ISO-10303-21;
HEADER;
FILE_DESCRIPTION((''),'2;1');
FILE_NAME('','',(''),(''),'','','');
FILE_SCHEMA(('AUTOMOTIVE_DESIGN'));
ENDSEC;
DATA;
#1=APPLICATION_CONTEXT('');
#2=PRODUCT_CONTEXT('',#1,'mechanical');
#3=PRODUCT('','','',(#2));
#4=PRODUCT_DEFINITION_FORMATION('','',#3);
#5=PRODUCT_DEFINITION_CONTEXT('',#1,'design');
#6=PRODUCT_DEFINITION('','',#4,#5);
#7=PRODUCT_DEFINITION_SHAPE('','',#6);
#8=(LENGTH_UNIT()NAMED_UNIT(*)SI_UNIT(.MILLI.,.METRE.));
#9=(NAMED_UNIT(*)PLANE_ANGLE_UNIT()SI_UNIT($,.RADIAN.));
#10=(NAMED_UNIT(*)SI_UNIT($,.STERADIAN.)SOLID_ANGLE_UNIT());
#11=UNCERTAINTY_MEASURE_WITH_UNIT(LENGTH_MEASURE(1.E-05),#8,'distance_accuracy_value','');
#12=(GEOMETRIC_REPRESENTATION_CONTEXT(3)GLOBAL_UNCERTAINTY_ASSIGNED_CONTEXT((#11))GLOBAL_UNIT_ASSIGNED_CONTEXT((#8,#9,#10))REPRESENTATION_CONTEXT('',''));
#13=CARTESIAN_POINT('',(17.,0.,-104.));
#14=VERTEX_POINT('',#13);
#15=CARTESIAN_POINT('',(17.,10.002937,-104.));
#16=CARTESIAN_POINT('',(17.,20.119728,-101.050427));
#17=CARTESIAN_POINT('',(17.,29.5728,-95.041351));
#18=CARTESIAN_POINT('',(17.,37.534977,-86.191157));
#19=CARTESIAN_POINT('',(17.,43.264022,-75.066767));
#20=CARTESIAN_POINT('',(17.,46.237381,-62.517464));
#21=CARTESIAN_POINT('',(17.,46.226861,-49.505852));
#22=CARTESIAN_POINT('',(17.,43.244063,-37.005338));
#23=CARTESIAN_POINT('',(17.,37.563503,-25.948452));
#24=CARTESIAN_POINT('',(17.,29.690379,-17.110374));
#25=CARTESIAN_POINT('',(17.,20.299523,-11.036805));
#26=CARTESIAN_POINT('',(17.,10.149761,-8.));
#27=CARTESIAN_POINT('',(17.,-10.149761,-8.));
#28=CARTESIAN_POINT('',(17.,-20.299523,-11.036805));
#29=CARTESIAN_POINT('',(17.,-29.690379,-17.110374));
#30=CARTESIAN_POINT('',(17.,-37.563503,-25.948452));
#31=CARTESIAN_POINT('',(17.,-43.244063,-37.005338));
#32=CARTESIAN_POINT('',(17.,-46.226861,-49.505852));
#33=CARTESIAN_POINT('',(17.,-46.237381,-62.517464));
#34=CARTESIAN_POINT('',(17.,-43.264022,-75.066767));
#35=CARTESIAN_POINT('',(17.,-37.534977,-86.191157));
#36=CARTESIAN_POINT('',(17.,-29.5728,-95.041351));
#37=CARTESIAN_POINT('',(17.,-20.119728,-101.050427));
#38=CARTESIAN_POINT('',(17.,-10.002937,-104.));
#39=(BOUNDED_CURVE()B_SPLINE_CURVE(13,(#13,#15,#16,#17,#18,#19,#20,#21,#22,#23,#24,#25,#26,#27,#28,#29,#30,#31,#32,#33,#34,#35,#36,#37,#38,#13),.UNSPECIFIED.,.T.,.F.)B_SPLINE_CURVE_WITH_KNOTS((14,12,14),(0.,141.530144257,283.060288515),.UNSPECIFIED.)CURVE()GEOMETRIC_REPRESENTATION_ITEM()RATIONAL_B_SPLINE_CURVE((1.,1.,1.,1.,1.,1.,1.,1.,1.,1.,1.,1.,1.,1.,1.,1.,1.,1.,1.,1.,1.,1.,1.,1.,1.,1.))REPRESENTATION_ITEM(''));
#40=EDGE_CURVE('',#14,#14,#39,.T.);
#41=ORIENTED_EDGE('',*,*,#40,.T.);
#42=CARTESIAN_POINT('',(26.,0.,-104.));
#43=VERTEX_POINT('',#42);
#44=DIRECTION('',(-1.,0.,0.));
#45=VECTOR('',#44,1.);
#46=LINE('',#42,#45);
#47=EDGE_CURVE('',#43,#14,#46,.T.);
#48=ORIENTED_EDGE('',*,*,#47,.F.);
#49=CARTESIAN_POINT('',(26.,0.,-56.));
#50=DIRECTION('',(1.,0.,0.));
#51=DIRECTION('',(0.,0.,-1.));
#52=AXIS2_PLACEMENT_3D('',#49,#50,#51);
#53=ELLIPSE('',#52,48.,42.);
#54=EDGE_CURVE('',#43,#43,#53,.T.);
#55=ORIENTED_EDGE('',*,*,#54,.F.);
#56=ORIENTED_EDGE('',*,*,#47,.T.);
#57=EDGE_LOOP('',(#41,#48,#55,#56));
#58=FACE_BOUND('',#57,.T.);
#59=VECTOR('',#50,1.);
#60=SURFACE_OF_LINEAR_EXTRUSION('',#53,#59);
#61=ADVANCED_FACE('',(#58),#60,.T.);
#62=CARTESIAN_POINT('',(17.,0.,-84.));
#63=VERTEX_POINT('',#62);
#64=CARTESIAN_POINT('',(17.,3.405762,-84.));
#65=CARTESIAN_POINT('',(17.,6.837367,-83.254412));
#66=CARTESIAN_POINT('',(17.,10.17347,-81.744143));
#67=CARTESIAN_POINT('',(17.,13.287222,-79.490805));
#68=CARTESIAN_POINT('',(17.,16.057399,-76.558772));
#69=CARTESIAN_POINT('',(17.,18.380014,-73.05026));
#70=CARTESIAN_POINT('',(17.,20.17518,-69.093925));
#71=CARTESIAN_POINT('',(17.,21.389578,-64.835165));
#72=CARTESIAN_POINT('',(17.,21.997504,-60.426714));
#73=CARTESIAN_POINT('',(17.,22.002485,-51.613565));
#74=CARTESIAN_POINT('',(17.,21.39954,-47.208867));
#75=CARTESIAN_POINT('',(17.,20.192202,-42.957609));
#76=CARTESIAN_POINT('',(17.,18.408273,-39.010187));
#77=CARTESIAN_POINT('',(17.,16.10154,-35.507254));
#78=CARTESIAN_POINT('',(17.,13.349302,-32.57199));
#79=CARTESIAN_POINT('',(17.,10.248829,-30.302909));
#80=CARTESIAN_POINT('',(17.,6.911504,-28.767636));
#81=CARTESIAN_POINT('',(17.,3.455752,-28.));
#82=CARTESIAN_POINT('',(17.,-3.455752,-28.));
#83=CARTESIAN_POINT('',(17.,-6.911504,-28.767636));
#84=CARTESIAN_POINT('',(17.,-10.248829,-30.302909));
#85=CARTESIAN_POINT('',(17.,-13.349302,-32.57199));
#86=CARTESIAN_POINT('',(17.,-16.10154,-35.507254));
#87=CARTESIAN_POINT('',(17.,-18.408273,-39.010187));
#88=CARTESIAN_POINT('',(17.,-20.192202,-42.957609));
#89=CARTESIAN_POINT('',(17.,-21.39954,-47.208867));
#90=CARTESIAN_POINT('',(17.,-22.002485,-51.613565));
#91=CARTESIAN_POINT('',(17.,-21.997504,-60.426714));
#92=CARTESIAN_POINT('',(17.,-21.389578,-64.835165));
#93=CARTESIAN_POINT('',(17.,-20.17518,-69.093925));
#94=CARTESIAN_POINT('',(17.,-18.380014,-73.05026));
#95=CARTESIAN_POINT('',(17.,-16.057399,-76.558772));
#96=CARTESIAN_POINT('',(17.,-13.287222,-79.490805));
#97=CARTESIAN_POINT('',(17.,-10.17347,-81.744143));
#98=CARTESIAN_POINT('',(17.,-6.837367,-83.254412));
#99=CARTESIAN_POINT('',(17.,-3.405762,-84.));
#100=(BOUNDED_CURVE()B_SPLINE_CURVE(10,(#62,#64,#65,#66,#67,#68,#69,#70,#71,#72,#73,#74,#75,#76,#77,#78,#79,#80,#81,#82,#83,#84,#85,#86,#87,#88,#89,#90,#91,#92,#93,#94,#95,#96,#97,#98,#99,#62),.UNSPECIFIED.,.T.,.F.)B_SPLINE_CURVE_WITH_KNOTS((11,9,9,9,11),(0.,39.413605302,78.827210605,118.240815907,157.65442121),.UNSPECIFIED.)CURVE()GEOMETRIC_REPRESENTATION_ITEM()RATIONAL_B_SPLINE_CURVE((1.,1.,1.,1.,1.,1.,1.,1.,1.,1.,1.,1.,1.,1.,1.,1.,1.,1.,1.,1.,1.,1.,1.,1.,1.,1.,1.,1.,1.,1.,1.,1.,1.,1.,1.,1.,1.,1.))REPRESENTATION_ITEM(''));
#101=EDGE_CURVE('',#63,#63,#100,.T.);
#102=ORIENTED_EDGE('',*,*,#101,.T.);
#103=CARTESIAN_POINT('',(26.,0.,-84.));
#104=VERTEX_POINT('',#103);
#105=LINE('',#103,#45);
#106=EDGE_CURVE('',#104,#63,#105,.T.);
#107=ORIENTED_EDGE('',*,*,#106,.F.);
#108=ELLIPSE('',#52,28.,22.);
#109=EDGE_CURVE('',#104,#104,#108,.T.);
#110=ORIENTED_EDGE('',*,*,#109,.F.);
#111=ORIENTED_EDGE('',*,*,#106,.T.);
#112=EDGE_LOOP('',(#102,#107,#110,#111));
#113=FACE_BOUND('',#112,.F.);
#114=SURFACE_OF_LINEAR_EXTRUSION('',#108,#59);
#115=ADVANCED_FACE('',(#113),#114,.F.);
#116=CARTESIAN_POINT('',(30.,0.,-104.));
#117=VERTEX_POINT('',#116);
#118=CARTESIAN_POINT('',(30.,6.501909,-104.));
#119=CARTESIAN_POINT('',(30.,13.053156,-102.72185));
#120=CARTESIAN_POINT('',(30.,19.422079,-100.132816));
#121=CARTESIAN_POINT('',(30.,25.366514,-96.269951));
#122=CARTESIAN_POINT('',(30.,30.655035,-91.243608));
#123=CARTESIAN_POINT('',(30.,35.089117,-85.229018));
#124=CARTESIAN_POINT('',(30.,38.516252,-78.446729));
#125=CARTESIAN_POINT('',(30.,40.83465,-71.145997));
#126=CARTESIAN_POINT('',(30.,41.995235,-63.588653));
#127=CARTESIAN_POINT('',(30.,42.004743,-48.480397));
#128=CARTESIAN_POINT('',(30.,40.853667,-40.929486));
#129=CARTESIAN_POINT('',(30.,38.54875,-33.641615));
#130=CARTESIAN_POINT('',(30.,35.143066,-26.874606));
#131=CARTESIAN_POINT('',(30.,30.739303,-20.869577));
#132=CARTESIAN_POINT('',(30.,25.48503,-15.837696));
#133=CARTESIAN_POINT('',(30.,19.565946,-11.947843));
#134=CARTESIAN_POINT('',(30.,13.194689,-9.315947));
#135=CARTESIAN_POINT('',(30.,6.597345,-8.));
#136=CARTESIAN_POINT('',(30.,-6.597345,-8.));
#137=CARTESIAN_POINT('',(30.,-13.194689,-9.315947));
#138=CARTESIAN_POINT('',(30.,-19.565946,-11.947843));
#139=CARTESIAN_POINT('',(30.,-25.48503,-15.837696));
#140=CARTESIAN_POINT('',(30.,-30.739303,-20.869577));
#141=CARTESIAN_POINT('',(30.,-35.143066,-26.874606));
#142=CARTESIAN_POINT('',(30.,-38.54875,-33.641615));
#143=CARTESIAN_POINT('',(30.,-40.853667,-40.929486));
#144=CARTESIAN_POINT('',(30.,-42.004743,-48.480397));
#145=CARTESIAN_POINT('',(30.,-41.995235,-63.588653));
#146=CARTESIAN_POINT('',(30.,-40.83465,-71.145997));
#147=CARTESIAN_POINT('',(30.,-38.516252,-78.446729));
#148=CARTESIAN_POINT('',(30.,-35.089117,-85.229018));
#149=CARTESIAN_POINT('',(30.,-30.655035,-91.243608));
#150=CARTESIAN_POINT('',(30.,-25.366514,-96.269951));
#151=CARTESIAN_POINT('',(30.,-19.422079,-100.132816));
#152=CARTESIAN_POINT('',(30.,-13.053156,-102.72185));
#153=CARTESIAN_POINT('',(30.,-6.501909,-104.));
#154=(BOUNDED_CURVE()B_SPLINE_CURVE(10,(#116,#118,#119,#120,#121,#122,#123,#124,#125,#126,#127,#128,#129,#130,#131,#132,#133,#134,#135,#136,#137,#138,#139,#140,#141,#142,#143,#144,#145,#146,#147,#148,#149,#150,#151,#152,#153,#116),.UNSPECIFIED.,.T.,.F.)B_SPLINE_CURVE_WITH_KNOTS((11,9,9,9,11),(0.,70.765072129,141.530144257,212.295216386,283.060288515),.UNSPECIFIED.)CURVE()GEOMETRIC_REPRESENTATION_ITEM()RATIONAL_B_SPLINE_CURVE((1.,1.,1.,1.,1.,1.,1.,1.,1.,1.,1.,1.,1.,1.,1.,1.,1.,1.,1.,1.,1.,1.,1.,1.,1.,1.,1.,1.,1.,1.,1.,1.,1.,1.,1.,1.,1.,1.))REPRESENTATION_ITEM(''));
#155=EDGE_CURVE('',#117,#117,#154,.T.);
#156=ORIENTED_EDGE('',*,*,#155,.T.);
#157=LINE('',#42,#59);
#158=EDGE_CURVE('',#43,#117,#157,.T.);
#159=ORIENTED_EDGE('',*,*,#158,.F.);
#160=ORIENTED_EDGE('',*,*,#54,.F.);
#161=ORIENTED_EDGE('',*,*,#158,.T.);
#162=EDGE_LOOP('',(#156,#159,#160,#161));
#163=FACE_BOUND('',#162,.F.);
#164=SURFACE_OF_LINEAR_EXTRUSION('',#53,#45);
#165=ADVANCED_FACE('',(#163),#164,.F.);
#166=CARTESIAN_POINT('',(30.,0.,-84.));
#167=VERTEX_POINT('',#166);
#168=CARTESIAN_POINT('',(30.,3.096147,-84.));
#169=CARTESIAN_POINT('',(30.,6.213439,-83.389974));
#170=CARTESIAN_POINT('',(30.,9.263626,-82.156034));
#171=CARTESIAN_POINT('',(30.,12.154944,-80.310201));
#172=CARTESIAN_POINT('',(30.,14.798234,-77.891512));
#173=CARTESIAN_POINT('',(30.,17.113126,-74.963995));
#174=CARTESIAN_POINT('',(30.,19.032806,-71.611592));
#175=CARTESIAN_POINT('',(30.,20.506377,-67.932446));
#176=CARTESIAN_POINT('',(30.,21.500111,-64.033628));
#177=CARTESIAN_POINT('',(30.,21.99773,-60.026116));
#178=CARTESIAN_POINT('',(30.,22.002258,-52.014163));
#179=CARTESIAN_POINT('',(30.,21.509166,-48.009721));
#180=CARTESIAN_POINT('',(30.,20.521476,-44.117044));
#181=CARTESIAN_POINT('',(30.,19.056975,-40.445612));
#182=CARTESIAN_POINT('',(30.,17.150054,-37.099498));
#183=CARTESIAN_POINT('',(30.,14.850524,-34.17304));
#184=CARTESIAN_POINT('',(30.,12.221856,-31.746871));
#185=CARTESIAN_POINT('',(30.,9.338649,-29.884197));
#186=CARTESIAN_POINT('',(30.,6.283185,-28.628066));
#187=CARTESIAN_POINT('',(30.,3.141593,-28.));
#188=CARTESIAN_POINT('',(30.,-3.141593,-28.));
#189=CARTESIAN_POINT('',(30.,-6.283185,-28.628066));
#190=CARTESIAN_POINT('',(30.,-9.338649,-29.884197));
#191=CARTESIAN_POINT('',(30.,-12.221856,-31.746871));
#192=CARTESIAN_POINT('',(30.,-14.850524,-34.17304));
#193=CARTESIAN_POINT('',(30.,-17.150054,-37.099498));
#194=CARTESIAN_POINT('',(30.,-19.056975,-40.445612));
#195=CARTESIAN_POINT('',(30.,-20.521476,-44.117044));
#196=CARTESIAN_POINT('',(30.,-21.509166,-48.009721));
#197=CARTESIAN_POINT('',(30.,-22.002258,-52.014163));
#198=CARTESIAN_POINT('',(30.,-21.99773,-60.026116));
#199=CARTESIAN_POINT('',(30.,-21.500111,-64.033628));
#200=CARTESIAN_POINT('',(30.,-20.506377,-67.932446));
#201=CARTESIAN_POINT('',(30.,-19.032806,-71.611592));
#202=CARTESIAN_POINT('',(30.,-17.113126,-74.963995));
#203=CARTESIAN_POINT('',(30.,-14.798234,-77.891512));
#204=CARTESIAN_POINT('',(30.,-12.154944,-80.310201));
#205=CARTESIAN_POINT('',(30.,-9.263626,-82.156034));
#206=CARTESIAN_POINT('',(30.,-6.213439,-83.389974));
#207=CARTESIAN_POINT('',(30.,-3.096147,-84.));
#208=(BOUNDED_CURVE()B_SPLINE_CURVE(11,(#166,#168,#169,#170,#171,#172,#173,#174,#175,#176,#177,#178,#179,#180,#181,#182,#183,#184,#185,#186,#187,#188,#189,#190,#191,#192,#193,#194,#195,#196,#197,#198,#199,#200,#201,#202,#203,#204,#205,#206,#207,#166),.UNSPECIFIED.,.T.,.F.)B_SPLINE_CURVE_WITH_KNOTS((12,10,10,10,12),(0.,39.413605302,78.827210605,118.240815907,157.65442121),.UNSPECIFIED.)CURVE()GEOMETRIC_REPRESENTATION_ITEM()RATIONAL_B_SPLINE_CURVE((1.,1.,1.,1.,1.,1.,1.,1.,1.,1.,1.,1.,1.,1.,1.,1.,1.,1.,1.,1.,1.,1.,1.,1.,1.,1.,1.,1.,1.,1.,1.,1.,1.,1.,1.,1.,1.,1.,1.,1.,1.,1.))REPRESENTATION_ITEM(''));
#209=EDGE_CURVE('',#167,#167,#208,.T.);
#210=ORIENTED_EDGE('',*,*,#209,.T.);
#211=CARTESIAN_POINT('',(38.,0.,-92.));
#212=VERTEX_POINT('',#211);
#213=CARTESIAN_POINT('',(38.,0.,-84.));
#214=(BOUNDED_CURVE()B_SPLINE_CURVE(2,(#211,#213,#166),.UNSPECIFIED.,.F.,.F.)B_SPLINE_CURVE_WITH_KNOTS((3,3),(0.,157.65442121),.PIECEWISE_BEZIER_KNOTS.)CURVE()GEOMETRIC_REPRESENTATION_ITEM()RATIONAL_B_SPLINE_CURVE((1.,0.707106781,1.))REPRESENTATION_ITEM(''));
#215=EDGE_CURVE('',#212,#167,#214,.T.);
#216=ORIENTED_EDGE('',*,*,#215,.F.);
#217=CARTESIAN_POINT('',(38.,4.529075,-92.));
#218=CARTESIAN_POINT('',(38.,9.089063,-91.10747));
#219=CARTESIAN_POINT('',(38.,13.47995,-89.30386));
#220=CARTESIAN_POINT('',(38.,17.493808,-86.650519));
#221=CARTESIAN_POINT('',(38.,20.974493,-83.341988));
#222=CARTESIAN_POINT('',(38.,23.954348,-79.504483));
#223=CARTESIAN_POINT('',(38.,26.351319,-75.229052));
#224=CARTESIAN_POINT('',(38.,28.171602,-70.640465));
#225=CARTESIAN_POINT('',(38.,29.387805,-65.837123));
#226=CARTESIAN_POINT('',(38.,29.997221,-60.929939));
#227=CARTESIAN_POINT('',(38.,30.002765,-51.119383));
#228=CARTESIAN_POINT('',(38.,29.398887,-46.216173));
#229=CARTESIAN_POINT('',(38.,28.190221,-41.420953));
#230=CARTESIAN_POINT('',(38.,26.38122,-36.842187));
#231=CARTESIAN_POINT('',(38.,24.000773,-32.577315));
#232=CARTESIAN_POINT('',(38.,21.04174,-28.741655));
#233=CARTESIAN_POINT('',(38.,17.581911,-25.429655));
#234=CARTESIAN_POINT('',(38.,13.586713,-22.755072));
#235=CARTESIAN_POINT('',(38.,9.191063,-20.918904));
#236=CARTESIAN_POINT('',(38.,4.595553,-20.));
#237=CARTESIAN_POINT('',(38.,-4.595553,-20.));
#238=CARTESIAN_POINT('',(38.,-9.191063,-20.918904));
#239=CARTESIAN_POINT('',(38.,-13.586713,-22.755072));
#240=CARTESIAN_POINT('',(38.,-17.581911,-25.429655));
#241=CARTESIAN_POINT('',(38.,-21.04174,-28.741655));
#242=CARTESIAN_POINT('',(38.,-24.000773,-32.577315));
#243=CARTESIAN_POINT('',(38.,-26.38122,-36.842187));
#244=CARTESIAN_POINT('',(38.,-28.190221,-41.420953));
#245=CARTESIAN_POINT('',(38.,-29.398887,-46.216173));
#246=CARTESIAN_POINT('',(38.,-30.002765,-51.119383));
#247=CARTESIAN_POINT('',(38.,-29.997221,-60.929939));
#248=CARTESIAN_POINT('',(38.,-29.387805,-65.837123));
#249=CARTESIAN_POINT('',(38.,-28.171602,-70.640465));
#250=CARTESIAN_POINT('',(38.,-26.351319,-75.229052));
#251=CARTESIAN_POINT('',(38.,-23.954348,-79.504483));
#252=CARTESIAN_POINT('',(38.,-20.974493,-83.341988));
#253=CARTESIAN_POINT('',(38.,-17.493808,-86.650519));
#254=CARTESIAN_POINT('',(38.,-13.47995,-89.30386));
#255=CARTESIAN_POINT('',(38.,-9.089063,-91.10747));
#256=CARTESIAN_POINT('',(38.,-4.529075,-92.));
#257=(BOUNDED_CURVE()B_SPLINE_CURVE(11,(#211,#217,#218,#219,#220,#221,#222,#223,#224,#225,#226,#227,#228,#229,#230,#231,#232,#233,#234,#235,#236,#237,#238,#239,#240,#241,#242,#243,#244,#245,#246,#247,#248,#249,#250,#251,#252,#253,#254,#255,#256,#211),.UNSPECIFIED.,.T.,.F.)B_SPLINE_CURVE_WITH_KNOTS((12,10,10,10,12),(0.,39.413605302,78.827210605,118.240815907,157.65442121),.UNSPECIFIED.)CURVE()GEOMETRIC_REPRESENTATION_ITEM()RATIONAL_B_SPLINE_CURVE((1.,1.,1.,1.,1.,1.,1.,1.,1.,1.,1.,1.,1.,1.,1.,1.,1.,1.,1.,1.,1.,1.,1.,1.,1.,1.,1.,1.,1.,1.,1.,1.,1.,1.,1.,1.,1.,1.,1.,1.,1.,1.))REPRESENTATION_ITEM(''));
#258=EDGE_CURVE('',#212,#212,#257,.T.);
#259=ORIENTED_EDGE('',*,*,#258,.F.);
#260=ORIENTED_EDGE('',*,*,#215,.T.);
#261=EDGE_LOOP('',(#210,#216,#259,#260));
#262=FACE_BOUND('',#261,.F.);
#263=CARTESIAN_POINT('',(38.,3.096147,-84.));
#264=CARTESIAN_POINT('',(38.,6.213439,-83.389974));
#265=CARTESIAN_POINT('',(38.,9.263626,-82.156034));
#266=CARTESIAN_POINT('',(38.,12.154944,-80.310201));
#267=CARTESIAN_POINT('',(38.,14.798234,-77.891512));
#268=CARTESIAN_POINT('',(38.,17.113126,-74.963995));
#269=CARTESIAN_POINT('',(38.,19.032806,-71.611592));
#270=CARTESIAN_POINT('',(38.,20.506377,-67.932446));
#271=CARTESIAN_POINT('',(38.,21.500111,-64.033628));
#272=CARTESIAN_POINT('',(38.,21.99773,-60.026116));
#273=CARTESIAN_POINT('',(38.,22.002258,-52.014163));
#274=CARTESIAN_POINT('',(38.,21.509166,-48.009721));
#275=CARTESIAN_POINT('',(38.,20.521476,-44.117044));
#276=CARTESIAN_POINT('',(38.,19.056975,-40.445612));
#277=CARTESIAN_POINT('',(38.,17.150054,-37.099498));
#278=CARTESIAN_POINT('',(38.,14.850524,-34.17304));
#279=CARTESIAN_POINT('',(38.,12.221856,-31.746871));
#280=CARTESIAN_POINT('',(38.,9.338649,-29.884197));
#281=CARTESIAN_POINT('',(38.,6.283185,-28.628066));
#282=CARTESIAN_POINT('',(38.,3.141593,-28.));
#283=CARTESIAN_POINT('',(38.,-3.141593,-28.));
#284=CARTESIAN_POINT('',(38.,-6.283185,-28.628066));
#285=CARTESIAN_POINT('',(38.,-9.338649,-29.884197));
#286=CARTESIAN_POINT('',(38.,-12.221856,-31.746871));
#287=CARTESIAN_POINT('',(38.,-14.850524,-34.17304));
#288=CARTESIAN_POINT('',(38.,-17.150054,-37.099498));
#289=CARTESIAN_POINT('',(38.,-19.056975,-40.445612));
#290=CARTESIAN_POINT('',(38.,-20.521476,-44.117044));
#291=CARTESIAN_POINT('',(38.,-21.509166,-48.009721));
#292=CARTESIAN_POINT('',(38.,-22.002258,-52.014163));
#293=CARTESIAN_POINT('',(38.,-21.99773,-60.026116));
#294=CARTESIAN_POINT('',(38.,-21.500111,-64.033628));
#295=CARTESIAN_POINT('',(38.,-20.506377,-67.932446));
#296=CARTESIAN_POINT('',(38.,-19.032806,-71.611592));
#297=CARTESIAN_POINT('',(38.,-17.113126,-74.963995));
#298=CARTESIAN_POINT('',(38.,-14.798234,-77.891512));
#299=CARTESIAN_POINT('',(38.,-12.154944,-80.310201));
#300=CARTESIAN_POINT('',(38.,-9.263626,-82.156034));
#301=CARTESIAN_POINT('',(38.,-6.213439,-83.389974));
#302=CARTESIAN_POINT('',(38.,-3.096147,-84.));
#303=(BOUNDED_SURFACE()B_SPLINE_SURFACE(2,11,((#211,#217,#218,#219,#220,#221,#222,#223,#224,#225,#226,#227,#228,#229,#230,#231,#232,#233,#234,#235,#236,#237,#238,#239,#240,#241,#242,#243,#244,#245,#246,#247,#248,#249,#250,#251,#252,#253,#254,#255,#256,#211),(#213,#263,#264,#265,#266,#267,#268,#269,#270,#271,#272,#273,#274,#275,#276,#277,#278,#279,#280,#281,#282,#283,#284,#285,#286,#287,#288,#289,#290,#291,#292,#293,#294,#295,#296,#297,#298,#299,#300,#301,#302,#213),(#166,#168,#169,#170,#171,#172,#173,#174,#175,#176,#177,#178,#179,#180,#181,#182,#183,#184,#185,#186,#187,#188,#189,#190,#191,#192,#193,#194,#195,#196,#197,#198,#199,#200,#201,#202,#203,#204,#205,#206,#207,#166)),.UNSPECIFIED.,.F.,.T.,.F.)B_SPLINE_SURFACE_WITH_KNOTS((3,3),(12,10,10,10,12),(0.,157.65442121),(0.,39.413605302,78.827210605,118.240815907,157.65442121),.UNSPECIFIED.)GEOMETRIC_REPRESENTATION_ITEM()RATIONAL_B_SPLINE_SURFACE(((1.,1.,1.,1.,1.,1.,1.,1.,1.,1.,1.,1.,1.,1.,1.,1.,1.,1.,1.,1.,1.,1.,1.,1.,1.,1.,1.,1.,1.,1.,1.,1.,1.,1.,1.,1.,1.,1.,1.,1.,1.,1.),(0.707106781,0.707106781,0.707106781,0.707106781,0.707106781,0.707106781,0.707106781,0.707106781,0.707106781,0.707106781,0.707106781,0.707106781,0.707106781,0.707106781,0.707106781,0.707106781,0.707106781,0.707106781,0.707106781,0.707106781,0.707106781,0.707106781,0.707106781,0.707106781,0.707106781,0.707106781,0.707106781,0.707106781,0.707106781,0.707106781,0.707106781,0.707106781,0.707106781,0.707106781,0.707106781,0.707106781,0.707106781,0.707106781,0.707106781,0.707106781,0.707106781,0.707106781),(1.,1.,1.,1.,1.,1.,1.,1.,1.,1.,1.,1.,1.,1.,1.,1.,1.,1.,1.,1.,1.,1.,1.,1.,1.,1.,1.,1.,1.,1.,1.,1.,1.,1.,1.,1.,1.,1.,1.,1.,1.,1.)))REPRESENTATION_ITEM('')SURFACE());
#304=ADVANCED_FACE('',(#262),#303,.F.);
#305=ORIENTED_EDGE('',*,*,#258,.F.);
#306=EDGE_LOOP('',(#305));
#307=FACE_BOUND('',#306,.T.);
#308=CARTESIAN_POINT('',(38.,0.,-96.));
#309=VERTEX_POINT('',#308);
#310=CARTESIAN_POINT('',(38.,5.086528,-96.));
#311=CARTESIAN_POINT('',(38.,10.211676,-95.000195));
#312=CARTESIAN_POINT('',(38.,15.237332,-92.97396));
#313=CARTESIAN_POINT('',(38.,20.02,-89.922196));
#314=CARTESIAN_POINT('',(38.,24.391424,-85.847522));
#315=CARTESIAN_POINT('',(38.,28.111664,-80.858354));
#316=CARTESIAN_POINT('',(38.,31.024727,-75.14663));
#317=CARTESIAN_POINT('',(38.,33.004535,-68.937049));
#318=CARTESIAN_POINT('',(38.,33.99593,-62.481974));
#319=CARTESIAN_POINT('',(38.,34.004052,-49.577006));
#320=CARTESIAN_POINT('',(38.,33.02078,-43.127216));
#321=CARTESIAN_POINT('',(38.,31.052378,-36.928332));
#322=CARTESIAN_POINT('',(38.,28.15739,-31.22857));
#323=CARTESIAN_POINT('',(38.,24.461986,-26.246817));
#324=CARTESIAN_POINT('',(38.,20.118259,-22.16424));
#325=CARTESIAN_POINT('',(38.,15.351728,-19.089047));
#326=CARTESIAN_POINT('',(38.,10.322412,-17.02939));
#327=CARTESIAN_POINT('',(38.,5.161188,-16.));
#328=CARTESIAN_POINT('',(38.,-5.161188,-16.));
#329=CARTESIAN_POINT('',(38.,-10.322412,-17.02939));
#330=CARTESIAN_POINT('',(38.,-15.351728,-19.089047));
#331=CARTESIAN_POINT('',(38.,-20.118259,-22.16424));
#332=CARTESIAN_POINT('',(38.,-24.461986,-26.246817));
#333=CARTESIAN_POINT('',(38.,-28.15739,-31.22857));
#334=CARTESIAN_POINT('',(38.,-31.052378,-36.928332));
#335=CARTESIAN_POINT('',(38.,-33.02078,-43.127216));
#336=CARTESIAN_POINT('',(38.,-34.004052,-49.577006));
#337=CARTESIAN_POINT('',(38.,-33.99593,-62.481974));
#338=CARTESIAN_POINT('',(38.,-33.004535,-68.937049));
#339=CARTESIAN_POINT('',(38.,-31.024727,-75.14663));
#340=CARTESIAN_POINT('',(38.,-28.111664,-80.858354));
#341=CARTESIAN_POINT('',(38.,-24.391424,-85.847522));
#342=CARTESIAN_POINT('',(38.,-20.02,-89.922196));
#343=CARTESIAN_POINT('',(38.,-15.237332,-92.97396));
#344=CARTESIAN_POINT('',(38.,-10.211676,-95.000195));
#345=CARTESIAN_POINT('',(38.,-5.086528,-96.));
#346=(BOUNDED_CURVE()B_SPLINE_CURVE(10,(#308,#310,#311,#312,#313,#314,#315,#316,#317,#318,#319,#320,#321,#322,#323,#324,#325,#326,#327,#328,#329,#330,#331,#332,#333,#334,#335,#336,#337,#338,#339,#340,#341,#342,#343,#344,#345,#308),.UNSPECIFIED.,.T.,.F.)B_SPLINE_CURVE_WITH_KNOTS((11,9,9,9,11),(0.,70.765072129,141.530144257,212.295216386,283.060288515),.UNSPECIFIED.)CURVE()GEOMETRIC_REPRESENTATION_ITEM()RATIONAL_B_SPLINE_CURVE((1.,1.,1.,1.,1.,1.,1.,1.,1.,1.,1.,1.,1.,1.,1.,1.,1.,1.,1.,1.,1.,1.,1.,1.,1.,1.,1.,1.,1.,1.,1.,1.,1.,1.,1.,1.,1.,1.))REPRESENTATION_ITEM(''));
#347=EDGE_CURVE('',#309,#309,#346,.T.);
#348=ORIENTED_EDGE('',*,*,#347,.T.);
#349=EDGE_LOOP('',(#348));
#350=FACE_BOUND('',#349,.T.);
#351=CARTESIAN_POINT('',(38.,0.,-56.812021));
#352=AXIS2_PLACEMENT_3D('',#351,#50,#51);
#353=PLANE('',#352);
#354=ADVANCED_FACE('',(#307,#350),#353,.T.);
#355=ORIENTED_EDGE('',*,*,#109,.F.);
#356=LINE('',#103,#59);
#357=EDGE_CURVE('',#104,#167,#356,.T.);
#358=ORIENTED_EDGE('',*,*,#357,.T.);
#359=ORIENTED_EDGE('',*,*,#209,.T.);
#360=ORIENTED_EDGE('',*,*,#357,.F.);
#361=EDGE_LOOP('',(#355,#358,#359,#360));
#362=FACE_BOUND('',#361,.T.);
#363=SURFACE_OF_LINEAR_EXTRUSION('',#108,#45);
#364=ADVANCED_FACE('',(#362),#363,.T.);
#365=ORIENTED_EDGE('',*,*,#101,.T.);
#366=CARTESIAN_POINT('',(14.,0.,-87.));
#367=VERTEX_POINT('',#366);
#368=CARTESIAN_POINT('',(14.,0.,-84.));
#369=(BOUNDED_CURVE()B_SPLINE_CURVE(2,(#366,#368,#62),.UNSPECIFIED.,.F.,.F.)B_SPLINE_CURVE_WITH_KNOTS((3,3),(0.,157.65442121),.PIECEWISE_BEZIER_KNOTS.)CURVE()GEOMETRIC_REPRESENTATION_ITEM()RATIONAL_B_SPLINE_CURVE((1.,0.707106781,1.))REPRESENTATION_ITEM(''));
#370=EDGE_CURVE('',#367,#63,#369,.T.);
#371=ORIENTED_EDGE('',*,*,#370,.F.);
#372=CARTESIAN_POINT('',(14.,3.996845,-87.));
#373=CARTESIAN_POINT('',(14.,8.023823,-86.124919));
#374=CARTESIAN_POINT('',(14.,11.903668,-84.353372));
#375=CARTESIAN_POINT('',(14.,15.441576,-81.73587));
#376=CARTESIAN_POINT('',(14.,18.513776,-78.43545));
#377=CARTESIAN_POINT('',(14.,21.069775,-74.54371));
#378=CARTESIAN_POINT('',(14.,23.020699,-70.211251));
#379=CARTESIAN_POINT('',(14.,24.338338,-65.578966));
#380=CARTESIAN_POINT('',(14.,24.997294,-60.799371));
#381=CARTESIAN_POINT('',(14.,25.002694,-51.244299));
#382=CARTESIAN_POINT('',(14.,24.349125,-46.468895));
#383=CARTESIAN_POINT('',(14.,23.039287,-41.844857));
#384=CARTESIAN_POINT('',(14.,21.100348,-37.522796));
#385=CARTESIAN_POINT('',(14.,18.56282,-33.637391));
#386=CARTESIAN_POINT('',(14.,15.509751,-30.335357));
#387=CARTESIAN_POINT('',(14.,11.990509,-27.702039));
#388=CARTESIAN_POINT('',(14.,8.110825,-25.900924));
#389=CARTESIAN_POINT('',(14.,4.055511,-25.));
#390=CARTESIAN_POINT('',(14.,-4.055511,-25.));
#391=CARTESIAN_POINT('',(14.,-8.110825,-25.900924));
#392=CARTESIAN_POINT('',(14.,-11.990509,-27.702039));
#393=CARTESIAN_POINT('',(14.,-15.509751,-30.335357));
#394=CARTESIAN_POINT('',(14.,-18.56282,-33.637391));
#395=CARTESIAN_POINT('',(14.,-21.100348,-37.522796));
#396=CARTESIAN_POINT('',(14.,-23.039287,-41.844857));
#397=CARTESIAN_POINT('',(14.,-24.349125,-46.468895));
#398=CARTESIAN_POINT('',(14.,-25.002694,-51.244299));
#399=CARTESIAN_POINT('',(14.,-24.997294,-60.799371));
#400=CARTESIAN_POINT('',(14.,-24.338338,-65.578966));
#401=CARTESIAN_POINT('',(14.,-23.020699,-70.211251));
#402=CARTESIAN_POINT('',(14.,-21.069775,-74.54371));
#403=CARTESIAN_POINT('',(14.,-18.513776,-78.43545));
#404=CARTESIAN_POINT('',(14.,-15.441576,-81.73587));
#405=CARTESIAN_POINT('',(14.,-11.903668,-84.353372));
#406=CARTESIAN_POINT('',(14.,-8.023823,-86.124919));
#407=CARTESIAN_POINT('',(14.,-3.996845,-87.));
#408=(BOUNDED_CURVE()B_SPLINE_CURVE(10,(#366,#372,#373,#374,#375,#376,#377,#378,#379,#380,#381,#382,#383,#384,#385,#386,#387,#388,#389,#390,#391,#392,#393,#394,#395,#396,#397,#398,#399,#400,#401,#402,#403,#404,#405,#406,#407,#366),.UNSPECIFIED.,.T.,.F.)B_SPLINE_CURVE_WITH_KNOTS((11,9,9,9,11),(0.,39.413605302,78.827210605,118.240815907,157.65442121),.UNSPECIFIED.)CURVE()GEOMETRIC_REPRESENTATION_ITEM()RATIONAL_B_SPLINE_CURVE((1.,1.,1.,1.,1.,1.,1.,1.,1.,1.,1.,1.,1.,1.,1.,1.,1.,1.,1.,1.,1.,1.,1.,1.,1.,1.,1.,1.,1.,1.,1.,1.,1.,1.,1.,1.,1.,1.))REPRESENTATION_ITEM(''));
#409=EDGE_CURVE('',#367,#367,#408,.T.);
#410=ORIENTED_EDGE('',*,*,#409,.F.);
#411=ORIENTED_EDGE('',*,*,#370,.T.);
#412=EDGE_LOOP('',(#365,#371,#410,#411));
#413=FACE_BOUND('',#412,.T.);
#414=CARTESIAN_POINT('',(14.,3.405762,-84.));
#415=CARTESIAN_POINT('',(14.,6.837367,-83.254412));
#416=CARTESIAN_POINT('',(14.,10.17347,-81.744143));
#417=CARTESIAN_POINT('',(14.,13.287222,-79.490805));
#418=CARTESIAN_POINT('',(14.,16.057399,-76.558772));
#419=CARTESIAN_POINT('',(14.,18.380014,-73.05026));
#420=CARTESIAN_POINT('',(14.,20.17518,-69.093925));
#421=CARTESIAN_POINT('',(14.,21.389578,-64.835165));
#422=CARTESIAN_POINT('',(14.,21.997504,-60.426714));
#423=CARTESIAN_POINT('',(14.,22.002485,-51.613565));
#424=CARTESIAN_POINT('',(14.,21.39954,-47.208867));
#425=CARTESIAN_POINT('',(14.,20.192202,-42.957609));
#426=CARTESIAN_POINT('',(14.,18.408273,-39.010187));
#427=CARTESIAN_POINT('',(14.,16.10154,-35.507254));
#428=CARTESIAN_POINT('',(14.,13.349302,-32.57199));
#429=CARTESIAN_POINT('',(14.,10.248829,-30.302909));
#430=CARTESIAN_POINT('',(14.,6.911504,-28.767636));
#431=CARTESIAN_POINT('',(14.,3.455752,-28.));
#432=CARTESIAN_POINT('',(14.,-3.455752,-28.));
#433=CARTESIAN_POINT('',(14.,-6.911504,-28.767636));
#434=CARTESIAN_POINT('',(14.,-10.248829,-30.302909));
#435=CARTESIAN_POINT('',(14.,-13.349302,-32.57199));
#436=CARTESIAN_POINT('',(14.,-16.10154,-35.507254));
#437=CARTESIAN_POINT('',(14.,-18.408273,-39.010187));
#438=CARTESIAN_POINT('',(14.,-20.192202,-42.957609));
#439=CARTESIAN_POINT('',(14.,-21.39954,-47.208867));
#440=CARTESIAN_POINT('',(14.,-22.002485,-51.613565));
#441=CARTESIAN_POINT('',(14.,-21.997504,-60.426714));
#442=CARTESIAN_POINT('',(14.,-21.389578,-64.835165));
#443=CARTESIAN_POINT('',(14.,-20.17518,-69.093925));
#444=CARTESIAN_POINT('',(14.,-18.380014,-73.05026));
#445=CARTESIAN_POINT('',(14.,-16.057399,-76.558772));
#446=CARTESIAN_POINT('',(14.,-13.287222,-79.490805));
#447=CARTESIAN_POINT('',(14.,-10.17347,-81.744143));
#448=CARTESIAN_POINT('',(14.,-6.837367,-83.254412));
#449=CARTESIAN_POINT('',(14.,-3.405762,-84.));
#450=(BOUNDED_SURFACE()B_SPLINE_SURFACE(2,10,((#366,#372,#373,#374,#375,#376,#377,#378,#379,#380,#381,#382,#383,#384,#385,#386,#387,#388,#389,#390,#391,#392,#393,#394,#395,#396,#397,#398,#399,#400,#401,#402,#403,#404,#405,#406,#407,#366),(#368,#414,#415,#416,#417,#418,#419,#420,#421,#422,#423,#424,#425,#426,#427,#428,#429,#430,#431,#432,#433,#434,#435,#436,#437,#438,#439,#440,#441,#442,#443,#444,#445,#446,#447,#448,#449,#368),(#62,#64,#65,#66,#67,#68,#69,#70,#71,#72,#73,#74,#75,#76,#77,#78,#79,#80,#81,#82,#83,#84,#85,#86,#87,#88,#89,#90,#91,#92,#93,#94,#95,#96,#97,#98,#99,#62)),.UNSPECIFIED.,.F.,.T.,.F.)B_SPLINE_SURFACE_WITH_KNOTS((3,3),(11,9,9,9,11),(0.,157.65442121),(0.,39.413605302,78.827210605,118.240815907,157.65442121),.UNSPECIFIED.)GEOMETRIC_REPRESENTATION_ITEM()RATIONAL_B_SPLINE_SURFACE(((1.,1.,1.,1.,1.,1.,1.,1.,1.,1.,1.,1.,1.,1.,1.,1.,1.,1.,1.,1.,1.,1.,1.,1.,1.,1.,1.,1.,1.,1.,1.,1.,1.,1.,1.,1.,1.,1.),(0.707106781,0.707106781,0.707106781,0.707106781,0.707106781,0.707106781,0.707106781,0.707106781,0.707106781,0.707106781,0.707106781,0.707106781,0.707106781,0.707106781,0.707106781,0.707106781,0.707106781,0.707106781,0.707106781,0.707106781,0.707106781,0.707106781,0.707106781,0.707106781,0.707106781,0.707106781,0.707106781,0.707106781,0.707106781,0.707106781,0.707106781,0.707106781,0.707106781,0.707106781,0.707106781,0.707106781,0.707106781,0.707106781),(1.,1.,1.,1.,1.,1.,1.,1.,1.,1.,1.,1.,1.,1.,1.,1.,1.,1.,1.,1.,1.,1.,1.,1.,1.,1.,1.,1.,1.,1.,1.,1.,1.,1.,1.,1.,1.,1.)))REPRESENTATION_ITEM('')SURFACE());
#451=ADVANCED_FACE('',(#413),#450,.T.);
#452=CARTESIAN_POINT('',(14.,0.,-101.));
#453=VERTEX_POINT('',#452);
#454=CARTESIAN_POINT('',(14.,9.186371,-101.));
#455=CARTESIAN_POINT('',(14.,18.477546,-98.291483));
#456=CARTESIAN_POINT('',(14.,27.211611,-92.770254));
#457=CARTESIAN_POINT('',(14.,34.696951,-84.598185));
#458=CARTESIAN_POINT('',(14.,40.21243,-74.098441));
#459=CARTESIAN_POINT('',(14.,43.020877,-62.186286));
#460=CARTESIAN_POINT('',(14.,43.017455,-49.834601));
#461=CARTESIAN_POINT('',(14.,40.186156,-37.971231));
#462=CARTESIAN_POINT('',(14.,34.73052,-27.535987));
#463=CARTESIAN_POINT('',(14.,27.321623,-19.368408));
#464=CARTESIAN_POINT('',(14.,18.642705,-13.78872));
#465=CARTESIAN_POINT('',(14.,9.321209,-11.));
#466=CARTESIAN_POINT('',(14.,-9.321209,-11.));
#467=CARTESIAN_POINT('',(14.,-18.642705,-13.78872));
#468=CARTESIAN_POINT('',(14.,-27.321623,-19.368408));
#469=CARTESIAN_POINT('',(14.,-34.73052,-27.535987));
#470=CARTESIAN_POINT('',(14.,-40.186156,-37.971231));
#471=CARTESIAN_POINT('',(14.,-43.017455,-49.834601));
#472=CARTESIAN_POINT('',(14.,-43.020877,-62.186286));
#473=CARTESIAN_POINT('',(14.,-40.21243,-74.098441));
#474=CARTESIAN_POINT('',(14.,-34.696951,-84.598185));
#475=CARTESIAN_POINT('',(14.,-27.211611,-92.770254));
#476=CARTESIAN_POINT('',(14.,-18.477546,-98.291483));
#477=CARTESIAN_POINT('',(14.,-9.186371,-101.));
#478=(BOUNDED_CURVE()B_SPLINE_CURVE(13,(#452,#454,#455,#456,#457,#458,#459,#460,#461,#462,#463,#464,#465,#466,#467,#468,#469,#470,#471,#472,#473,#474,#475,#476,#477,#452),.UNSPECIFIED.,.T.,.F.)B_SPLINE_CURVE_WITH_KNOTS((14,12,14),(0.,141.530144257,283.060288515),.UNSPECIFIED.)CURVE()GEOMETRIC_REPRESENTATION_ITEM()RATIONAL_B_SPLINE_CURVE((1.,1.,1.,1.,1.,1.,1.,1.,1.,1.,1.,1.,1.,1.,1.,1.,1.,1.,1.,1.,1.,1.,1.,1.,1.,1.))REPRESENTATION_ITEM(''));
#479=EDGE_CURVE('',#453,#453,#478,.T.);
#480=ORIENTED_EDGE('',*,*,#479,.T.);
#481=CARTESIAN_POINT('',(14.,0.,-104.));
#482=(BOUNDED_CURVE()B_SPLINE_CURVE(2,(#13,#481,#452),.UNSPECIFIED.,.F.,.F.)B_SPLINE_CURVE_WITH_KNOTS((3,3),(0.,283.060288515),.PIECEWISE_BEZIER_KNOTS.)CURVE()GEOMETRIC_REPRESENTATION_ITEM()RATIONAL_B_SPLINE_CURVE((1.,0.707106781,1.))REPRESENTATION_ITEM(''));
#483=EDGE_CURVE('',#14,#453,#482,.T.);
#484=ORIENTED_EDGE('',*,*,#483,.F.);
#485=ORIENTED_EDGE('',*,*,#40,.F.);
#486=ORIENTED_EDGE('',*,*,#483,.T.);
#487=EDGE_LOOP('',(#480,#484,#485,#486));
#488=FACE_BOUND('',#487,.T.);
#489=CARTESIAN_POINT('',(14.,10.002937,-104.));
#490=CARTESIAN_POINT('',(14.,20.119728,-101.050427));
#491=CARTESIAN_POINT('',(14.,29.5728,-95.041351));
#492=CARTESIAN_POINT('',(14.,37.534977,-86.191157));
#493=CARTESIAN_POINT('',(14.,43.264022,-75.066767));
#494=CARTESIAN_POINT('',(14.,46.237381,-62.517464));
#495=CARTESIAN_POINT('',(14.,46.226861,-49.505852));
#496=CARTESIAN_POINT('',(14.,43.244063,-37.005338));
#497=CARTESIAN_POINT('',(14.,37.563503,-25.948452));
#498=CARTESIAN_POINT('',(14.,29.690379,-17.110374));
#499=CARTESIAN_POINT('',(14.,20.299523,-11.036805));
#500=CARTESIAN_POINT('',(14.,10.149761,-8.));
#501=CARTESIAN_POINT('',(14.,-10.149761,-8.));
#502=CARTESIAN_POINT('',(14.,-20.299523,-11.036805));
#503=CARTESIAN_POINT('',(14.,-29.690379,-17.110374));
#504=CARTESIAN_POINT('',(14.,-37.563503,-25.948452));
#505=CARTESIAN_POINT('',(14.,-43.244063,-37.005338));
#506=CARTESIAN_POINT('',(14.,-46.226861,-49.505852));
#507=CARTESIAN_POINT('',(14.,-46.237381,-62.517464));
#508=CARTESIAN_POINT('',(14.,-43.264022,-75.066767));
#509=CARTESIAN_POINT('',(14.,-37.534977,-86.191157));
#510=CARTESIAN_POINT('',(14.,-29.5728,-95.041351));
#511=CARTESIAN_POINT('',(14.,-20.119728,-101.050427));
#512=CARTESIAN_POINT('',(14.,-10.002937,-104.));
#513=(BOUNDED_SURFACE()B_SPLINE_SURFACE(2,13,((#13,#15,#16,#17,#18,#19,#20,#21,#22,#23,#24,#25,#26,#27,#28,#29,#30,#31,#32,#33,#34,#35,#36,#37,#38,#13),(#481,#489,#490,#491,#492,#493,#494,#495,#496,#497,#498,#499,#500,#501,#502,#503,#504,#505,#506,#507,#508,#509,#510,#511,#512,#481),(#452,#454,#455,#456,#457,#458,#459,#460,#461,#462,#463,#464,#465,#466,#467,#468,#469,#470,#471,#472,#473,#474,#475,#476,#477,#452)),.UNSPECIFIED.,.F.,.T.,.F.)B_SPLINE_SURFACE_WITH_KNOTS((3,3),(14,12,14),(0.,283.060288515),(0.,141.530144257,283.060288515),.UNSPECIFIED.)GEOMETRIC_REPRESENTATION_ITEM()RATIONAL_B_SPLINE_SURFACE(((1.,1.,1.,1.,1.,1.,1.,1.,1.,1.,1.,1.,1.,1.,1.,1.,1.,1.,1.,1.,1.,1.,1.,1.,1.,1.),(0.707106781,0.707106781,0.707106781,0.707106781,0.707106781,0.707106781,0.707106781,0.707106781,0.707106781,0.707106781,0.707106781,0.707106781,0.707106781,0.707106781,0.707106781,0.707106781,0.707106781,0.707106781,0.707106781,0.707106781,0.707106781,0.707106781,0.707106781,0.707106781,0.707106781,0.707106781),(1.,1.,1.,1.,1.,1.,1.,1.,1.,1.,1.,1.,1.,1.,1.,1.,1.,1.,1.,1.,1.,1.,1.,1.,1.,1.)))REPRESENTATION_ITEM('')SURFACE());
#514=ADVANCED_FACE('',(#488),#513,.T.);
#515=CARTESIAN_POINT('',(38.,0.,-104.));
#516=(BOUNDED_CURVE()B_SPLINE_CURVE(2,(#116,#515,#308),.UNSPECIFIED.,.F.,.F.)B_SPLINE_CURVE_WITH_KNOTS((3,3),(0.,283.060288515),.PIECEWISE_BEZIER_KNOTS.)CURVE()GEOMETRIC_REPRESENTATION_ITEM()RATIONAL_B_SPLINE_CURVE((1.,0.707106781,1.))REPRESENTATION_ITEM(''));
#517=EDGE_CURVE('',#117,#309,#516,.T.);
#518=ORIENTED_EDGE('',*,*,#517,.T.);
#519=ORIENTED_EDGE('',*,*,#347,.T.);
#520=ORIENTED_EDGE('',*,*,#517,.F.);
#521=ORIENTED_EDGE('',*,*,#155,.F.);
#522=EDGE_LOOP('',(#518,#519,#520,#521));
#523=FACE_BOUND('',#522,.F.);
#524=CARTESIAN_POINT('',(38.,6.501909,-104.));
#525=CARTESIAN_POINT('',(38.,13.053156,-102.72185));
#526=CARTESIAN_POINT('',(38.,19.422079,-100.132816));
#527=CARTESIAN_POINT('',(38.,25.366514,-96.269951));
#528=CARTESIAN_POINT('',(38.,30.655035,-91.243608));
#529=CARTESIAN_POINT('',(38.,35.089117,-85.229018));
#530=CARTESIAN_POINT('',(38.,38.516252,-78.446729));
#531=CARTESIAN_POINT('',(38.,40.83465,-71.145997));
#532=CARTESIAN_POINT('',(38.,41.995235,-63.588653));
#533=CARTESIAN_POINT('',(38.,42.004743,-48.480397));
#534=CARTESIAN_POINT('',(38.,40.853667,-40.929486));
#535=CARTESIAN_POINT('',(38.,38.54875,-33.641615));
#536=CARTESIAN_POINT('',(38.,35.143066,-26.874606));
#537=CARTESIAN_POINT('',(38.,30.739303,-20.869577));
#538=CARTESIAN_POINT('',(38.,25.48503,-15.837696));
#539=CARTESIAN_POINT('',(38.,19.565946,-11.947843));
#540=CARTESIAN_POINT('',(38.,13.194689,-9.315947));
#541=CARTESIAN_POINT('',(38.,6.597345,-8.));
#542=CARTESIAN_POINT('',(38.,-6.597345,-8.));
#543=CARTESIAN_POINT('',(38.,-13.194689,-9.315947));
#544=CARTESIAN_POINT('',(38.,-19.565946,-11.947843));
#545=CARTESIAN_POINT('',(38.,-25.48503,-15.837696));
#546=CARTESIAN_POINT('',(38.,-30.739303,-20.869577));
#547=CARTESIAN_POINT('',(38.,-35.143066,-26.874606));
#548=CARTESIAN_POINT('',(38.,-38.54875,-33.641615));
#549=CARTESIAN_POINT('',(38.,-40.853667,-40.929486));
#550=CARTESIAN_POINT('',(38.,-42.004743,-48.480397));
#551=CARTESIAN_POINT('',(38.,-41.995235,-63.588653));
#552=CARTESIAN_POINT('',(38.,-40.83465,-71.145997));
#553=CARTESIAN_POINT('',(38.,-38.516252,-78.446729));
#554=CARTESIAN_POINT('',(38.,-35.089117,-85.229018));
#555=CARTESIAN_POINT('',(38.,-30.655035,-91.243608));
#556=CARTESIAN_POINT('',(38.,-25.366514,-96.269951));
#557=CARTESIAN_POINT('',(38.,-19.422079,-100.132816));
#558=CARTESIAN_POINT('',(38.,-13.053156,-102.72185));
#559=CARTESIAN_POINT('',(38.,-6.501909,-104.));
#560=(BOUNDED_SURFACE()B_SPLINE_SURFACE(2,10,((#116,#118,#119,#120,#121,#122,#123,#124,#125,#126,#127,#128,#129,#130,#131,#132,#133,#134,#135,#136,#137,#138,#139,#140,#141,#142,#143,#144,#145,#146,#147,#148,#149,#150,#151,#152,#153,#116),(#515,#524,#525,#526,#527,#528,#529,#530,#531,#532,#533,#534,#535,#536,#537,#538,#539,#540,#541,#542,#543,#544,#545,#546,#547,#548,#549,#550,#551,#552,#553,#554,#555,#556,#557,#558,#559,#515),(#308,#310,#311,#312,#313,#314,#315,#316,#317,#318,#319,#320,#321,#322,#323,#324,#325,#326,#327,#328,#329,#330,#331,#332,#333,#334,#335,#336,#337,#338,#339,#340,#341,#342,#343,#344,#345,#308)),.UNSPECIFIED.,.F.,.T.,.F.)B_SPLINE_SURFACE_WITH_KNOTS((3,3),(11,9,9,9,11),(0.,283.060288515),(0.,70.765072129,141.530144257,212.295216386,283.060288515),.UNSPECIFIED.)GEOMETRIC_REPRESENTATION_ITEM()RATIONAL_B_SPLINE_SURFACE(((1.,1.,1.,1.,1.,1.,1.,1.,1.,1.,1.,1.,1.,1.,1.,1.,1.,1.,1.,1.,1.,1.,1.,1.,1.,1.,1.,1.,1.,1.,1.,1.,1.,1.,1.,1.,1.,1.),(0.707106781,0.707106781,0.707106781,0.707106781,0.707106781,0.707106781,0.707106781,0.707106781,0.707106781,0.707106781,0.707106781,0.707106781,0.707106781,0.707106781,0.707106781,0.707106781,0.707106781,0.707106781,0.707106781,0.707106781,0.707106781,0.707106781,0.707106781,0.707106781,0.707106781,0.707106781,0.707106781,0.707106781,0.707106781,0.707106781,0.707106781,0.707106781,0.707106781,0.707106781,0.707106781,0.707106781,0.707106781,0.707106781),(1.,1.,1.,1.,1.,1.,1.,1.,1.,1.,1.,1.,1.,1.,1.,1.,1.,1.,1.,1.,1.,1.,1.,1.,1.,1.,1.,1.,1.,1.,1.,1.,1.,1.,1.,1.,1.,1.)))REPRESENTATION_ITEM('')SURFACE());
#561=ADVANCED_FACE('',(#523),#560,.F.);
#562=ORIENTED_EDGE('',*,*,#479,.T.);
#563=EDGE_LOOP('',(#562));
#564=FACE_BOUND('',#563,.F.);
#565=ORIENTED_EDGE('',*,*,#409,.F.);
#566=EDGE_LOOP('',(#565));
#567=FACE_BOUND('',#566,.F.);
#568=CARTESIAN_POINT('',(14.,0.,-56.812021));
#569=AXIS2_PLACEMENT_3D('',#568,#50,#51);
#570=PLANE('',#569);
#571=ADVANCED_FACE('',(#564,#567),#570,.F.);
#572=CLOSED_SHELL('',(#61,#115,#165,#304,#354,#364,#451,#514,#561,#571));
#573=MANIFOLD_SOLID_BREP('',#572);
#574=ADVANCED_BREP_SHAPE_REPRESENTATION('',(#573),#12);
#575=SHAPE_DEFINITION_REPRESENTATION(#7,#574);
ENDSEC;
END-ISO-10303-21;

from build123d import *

# Parameters (mm, degrees)
SKETCH1_RX   = 48
SKETCH1_RY   = 42
SKETCH1_RX_2 = 28
SKETCH1_RY_2 = 22
PAD_DEPTH    = 12
FACEROUND_R  = 8
BASEROUND_R  = 3


with BuildPart() as part:
    # Sketch1 → Pad (new, symmetric)
    with BuildSketch(Plane.YZ.offset(26)):
        with Locations(Location((0, -56), (0, 0, -90))):
            Ellipse(SKETCH1_RX, SKETCH1_RY)
        with Locations(Location((0, -56), (0, 0, -90))):
            Ellipse(SKETCH1_RX_2, SKETCH1_RY_2, mode=Mode.SUBTRACT)
    extrude(amount=PAD_DEPTH, both=True)

    # FaceRound
    faceround_edges = [part.edges().sort_by_distance(p)[0] for p in [
        (38, -0.001351531, -8.000000025),
        (38, -0.004395644, -28.000000559),
    ]]
    fillet(faceround_edges, radius=FACEROUND_R)

    # BaseRound
    baseround_edges = [part.edges().sort_by_distance(p)[0] for p in [
        (14, -0.001351531, -8.000000025),
        (14, -0.004395644, -28.000000559),
    ]]
    fillet(baseround_edges, radius=BASEROUND_R)


solid = part.part
